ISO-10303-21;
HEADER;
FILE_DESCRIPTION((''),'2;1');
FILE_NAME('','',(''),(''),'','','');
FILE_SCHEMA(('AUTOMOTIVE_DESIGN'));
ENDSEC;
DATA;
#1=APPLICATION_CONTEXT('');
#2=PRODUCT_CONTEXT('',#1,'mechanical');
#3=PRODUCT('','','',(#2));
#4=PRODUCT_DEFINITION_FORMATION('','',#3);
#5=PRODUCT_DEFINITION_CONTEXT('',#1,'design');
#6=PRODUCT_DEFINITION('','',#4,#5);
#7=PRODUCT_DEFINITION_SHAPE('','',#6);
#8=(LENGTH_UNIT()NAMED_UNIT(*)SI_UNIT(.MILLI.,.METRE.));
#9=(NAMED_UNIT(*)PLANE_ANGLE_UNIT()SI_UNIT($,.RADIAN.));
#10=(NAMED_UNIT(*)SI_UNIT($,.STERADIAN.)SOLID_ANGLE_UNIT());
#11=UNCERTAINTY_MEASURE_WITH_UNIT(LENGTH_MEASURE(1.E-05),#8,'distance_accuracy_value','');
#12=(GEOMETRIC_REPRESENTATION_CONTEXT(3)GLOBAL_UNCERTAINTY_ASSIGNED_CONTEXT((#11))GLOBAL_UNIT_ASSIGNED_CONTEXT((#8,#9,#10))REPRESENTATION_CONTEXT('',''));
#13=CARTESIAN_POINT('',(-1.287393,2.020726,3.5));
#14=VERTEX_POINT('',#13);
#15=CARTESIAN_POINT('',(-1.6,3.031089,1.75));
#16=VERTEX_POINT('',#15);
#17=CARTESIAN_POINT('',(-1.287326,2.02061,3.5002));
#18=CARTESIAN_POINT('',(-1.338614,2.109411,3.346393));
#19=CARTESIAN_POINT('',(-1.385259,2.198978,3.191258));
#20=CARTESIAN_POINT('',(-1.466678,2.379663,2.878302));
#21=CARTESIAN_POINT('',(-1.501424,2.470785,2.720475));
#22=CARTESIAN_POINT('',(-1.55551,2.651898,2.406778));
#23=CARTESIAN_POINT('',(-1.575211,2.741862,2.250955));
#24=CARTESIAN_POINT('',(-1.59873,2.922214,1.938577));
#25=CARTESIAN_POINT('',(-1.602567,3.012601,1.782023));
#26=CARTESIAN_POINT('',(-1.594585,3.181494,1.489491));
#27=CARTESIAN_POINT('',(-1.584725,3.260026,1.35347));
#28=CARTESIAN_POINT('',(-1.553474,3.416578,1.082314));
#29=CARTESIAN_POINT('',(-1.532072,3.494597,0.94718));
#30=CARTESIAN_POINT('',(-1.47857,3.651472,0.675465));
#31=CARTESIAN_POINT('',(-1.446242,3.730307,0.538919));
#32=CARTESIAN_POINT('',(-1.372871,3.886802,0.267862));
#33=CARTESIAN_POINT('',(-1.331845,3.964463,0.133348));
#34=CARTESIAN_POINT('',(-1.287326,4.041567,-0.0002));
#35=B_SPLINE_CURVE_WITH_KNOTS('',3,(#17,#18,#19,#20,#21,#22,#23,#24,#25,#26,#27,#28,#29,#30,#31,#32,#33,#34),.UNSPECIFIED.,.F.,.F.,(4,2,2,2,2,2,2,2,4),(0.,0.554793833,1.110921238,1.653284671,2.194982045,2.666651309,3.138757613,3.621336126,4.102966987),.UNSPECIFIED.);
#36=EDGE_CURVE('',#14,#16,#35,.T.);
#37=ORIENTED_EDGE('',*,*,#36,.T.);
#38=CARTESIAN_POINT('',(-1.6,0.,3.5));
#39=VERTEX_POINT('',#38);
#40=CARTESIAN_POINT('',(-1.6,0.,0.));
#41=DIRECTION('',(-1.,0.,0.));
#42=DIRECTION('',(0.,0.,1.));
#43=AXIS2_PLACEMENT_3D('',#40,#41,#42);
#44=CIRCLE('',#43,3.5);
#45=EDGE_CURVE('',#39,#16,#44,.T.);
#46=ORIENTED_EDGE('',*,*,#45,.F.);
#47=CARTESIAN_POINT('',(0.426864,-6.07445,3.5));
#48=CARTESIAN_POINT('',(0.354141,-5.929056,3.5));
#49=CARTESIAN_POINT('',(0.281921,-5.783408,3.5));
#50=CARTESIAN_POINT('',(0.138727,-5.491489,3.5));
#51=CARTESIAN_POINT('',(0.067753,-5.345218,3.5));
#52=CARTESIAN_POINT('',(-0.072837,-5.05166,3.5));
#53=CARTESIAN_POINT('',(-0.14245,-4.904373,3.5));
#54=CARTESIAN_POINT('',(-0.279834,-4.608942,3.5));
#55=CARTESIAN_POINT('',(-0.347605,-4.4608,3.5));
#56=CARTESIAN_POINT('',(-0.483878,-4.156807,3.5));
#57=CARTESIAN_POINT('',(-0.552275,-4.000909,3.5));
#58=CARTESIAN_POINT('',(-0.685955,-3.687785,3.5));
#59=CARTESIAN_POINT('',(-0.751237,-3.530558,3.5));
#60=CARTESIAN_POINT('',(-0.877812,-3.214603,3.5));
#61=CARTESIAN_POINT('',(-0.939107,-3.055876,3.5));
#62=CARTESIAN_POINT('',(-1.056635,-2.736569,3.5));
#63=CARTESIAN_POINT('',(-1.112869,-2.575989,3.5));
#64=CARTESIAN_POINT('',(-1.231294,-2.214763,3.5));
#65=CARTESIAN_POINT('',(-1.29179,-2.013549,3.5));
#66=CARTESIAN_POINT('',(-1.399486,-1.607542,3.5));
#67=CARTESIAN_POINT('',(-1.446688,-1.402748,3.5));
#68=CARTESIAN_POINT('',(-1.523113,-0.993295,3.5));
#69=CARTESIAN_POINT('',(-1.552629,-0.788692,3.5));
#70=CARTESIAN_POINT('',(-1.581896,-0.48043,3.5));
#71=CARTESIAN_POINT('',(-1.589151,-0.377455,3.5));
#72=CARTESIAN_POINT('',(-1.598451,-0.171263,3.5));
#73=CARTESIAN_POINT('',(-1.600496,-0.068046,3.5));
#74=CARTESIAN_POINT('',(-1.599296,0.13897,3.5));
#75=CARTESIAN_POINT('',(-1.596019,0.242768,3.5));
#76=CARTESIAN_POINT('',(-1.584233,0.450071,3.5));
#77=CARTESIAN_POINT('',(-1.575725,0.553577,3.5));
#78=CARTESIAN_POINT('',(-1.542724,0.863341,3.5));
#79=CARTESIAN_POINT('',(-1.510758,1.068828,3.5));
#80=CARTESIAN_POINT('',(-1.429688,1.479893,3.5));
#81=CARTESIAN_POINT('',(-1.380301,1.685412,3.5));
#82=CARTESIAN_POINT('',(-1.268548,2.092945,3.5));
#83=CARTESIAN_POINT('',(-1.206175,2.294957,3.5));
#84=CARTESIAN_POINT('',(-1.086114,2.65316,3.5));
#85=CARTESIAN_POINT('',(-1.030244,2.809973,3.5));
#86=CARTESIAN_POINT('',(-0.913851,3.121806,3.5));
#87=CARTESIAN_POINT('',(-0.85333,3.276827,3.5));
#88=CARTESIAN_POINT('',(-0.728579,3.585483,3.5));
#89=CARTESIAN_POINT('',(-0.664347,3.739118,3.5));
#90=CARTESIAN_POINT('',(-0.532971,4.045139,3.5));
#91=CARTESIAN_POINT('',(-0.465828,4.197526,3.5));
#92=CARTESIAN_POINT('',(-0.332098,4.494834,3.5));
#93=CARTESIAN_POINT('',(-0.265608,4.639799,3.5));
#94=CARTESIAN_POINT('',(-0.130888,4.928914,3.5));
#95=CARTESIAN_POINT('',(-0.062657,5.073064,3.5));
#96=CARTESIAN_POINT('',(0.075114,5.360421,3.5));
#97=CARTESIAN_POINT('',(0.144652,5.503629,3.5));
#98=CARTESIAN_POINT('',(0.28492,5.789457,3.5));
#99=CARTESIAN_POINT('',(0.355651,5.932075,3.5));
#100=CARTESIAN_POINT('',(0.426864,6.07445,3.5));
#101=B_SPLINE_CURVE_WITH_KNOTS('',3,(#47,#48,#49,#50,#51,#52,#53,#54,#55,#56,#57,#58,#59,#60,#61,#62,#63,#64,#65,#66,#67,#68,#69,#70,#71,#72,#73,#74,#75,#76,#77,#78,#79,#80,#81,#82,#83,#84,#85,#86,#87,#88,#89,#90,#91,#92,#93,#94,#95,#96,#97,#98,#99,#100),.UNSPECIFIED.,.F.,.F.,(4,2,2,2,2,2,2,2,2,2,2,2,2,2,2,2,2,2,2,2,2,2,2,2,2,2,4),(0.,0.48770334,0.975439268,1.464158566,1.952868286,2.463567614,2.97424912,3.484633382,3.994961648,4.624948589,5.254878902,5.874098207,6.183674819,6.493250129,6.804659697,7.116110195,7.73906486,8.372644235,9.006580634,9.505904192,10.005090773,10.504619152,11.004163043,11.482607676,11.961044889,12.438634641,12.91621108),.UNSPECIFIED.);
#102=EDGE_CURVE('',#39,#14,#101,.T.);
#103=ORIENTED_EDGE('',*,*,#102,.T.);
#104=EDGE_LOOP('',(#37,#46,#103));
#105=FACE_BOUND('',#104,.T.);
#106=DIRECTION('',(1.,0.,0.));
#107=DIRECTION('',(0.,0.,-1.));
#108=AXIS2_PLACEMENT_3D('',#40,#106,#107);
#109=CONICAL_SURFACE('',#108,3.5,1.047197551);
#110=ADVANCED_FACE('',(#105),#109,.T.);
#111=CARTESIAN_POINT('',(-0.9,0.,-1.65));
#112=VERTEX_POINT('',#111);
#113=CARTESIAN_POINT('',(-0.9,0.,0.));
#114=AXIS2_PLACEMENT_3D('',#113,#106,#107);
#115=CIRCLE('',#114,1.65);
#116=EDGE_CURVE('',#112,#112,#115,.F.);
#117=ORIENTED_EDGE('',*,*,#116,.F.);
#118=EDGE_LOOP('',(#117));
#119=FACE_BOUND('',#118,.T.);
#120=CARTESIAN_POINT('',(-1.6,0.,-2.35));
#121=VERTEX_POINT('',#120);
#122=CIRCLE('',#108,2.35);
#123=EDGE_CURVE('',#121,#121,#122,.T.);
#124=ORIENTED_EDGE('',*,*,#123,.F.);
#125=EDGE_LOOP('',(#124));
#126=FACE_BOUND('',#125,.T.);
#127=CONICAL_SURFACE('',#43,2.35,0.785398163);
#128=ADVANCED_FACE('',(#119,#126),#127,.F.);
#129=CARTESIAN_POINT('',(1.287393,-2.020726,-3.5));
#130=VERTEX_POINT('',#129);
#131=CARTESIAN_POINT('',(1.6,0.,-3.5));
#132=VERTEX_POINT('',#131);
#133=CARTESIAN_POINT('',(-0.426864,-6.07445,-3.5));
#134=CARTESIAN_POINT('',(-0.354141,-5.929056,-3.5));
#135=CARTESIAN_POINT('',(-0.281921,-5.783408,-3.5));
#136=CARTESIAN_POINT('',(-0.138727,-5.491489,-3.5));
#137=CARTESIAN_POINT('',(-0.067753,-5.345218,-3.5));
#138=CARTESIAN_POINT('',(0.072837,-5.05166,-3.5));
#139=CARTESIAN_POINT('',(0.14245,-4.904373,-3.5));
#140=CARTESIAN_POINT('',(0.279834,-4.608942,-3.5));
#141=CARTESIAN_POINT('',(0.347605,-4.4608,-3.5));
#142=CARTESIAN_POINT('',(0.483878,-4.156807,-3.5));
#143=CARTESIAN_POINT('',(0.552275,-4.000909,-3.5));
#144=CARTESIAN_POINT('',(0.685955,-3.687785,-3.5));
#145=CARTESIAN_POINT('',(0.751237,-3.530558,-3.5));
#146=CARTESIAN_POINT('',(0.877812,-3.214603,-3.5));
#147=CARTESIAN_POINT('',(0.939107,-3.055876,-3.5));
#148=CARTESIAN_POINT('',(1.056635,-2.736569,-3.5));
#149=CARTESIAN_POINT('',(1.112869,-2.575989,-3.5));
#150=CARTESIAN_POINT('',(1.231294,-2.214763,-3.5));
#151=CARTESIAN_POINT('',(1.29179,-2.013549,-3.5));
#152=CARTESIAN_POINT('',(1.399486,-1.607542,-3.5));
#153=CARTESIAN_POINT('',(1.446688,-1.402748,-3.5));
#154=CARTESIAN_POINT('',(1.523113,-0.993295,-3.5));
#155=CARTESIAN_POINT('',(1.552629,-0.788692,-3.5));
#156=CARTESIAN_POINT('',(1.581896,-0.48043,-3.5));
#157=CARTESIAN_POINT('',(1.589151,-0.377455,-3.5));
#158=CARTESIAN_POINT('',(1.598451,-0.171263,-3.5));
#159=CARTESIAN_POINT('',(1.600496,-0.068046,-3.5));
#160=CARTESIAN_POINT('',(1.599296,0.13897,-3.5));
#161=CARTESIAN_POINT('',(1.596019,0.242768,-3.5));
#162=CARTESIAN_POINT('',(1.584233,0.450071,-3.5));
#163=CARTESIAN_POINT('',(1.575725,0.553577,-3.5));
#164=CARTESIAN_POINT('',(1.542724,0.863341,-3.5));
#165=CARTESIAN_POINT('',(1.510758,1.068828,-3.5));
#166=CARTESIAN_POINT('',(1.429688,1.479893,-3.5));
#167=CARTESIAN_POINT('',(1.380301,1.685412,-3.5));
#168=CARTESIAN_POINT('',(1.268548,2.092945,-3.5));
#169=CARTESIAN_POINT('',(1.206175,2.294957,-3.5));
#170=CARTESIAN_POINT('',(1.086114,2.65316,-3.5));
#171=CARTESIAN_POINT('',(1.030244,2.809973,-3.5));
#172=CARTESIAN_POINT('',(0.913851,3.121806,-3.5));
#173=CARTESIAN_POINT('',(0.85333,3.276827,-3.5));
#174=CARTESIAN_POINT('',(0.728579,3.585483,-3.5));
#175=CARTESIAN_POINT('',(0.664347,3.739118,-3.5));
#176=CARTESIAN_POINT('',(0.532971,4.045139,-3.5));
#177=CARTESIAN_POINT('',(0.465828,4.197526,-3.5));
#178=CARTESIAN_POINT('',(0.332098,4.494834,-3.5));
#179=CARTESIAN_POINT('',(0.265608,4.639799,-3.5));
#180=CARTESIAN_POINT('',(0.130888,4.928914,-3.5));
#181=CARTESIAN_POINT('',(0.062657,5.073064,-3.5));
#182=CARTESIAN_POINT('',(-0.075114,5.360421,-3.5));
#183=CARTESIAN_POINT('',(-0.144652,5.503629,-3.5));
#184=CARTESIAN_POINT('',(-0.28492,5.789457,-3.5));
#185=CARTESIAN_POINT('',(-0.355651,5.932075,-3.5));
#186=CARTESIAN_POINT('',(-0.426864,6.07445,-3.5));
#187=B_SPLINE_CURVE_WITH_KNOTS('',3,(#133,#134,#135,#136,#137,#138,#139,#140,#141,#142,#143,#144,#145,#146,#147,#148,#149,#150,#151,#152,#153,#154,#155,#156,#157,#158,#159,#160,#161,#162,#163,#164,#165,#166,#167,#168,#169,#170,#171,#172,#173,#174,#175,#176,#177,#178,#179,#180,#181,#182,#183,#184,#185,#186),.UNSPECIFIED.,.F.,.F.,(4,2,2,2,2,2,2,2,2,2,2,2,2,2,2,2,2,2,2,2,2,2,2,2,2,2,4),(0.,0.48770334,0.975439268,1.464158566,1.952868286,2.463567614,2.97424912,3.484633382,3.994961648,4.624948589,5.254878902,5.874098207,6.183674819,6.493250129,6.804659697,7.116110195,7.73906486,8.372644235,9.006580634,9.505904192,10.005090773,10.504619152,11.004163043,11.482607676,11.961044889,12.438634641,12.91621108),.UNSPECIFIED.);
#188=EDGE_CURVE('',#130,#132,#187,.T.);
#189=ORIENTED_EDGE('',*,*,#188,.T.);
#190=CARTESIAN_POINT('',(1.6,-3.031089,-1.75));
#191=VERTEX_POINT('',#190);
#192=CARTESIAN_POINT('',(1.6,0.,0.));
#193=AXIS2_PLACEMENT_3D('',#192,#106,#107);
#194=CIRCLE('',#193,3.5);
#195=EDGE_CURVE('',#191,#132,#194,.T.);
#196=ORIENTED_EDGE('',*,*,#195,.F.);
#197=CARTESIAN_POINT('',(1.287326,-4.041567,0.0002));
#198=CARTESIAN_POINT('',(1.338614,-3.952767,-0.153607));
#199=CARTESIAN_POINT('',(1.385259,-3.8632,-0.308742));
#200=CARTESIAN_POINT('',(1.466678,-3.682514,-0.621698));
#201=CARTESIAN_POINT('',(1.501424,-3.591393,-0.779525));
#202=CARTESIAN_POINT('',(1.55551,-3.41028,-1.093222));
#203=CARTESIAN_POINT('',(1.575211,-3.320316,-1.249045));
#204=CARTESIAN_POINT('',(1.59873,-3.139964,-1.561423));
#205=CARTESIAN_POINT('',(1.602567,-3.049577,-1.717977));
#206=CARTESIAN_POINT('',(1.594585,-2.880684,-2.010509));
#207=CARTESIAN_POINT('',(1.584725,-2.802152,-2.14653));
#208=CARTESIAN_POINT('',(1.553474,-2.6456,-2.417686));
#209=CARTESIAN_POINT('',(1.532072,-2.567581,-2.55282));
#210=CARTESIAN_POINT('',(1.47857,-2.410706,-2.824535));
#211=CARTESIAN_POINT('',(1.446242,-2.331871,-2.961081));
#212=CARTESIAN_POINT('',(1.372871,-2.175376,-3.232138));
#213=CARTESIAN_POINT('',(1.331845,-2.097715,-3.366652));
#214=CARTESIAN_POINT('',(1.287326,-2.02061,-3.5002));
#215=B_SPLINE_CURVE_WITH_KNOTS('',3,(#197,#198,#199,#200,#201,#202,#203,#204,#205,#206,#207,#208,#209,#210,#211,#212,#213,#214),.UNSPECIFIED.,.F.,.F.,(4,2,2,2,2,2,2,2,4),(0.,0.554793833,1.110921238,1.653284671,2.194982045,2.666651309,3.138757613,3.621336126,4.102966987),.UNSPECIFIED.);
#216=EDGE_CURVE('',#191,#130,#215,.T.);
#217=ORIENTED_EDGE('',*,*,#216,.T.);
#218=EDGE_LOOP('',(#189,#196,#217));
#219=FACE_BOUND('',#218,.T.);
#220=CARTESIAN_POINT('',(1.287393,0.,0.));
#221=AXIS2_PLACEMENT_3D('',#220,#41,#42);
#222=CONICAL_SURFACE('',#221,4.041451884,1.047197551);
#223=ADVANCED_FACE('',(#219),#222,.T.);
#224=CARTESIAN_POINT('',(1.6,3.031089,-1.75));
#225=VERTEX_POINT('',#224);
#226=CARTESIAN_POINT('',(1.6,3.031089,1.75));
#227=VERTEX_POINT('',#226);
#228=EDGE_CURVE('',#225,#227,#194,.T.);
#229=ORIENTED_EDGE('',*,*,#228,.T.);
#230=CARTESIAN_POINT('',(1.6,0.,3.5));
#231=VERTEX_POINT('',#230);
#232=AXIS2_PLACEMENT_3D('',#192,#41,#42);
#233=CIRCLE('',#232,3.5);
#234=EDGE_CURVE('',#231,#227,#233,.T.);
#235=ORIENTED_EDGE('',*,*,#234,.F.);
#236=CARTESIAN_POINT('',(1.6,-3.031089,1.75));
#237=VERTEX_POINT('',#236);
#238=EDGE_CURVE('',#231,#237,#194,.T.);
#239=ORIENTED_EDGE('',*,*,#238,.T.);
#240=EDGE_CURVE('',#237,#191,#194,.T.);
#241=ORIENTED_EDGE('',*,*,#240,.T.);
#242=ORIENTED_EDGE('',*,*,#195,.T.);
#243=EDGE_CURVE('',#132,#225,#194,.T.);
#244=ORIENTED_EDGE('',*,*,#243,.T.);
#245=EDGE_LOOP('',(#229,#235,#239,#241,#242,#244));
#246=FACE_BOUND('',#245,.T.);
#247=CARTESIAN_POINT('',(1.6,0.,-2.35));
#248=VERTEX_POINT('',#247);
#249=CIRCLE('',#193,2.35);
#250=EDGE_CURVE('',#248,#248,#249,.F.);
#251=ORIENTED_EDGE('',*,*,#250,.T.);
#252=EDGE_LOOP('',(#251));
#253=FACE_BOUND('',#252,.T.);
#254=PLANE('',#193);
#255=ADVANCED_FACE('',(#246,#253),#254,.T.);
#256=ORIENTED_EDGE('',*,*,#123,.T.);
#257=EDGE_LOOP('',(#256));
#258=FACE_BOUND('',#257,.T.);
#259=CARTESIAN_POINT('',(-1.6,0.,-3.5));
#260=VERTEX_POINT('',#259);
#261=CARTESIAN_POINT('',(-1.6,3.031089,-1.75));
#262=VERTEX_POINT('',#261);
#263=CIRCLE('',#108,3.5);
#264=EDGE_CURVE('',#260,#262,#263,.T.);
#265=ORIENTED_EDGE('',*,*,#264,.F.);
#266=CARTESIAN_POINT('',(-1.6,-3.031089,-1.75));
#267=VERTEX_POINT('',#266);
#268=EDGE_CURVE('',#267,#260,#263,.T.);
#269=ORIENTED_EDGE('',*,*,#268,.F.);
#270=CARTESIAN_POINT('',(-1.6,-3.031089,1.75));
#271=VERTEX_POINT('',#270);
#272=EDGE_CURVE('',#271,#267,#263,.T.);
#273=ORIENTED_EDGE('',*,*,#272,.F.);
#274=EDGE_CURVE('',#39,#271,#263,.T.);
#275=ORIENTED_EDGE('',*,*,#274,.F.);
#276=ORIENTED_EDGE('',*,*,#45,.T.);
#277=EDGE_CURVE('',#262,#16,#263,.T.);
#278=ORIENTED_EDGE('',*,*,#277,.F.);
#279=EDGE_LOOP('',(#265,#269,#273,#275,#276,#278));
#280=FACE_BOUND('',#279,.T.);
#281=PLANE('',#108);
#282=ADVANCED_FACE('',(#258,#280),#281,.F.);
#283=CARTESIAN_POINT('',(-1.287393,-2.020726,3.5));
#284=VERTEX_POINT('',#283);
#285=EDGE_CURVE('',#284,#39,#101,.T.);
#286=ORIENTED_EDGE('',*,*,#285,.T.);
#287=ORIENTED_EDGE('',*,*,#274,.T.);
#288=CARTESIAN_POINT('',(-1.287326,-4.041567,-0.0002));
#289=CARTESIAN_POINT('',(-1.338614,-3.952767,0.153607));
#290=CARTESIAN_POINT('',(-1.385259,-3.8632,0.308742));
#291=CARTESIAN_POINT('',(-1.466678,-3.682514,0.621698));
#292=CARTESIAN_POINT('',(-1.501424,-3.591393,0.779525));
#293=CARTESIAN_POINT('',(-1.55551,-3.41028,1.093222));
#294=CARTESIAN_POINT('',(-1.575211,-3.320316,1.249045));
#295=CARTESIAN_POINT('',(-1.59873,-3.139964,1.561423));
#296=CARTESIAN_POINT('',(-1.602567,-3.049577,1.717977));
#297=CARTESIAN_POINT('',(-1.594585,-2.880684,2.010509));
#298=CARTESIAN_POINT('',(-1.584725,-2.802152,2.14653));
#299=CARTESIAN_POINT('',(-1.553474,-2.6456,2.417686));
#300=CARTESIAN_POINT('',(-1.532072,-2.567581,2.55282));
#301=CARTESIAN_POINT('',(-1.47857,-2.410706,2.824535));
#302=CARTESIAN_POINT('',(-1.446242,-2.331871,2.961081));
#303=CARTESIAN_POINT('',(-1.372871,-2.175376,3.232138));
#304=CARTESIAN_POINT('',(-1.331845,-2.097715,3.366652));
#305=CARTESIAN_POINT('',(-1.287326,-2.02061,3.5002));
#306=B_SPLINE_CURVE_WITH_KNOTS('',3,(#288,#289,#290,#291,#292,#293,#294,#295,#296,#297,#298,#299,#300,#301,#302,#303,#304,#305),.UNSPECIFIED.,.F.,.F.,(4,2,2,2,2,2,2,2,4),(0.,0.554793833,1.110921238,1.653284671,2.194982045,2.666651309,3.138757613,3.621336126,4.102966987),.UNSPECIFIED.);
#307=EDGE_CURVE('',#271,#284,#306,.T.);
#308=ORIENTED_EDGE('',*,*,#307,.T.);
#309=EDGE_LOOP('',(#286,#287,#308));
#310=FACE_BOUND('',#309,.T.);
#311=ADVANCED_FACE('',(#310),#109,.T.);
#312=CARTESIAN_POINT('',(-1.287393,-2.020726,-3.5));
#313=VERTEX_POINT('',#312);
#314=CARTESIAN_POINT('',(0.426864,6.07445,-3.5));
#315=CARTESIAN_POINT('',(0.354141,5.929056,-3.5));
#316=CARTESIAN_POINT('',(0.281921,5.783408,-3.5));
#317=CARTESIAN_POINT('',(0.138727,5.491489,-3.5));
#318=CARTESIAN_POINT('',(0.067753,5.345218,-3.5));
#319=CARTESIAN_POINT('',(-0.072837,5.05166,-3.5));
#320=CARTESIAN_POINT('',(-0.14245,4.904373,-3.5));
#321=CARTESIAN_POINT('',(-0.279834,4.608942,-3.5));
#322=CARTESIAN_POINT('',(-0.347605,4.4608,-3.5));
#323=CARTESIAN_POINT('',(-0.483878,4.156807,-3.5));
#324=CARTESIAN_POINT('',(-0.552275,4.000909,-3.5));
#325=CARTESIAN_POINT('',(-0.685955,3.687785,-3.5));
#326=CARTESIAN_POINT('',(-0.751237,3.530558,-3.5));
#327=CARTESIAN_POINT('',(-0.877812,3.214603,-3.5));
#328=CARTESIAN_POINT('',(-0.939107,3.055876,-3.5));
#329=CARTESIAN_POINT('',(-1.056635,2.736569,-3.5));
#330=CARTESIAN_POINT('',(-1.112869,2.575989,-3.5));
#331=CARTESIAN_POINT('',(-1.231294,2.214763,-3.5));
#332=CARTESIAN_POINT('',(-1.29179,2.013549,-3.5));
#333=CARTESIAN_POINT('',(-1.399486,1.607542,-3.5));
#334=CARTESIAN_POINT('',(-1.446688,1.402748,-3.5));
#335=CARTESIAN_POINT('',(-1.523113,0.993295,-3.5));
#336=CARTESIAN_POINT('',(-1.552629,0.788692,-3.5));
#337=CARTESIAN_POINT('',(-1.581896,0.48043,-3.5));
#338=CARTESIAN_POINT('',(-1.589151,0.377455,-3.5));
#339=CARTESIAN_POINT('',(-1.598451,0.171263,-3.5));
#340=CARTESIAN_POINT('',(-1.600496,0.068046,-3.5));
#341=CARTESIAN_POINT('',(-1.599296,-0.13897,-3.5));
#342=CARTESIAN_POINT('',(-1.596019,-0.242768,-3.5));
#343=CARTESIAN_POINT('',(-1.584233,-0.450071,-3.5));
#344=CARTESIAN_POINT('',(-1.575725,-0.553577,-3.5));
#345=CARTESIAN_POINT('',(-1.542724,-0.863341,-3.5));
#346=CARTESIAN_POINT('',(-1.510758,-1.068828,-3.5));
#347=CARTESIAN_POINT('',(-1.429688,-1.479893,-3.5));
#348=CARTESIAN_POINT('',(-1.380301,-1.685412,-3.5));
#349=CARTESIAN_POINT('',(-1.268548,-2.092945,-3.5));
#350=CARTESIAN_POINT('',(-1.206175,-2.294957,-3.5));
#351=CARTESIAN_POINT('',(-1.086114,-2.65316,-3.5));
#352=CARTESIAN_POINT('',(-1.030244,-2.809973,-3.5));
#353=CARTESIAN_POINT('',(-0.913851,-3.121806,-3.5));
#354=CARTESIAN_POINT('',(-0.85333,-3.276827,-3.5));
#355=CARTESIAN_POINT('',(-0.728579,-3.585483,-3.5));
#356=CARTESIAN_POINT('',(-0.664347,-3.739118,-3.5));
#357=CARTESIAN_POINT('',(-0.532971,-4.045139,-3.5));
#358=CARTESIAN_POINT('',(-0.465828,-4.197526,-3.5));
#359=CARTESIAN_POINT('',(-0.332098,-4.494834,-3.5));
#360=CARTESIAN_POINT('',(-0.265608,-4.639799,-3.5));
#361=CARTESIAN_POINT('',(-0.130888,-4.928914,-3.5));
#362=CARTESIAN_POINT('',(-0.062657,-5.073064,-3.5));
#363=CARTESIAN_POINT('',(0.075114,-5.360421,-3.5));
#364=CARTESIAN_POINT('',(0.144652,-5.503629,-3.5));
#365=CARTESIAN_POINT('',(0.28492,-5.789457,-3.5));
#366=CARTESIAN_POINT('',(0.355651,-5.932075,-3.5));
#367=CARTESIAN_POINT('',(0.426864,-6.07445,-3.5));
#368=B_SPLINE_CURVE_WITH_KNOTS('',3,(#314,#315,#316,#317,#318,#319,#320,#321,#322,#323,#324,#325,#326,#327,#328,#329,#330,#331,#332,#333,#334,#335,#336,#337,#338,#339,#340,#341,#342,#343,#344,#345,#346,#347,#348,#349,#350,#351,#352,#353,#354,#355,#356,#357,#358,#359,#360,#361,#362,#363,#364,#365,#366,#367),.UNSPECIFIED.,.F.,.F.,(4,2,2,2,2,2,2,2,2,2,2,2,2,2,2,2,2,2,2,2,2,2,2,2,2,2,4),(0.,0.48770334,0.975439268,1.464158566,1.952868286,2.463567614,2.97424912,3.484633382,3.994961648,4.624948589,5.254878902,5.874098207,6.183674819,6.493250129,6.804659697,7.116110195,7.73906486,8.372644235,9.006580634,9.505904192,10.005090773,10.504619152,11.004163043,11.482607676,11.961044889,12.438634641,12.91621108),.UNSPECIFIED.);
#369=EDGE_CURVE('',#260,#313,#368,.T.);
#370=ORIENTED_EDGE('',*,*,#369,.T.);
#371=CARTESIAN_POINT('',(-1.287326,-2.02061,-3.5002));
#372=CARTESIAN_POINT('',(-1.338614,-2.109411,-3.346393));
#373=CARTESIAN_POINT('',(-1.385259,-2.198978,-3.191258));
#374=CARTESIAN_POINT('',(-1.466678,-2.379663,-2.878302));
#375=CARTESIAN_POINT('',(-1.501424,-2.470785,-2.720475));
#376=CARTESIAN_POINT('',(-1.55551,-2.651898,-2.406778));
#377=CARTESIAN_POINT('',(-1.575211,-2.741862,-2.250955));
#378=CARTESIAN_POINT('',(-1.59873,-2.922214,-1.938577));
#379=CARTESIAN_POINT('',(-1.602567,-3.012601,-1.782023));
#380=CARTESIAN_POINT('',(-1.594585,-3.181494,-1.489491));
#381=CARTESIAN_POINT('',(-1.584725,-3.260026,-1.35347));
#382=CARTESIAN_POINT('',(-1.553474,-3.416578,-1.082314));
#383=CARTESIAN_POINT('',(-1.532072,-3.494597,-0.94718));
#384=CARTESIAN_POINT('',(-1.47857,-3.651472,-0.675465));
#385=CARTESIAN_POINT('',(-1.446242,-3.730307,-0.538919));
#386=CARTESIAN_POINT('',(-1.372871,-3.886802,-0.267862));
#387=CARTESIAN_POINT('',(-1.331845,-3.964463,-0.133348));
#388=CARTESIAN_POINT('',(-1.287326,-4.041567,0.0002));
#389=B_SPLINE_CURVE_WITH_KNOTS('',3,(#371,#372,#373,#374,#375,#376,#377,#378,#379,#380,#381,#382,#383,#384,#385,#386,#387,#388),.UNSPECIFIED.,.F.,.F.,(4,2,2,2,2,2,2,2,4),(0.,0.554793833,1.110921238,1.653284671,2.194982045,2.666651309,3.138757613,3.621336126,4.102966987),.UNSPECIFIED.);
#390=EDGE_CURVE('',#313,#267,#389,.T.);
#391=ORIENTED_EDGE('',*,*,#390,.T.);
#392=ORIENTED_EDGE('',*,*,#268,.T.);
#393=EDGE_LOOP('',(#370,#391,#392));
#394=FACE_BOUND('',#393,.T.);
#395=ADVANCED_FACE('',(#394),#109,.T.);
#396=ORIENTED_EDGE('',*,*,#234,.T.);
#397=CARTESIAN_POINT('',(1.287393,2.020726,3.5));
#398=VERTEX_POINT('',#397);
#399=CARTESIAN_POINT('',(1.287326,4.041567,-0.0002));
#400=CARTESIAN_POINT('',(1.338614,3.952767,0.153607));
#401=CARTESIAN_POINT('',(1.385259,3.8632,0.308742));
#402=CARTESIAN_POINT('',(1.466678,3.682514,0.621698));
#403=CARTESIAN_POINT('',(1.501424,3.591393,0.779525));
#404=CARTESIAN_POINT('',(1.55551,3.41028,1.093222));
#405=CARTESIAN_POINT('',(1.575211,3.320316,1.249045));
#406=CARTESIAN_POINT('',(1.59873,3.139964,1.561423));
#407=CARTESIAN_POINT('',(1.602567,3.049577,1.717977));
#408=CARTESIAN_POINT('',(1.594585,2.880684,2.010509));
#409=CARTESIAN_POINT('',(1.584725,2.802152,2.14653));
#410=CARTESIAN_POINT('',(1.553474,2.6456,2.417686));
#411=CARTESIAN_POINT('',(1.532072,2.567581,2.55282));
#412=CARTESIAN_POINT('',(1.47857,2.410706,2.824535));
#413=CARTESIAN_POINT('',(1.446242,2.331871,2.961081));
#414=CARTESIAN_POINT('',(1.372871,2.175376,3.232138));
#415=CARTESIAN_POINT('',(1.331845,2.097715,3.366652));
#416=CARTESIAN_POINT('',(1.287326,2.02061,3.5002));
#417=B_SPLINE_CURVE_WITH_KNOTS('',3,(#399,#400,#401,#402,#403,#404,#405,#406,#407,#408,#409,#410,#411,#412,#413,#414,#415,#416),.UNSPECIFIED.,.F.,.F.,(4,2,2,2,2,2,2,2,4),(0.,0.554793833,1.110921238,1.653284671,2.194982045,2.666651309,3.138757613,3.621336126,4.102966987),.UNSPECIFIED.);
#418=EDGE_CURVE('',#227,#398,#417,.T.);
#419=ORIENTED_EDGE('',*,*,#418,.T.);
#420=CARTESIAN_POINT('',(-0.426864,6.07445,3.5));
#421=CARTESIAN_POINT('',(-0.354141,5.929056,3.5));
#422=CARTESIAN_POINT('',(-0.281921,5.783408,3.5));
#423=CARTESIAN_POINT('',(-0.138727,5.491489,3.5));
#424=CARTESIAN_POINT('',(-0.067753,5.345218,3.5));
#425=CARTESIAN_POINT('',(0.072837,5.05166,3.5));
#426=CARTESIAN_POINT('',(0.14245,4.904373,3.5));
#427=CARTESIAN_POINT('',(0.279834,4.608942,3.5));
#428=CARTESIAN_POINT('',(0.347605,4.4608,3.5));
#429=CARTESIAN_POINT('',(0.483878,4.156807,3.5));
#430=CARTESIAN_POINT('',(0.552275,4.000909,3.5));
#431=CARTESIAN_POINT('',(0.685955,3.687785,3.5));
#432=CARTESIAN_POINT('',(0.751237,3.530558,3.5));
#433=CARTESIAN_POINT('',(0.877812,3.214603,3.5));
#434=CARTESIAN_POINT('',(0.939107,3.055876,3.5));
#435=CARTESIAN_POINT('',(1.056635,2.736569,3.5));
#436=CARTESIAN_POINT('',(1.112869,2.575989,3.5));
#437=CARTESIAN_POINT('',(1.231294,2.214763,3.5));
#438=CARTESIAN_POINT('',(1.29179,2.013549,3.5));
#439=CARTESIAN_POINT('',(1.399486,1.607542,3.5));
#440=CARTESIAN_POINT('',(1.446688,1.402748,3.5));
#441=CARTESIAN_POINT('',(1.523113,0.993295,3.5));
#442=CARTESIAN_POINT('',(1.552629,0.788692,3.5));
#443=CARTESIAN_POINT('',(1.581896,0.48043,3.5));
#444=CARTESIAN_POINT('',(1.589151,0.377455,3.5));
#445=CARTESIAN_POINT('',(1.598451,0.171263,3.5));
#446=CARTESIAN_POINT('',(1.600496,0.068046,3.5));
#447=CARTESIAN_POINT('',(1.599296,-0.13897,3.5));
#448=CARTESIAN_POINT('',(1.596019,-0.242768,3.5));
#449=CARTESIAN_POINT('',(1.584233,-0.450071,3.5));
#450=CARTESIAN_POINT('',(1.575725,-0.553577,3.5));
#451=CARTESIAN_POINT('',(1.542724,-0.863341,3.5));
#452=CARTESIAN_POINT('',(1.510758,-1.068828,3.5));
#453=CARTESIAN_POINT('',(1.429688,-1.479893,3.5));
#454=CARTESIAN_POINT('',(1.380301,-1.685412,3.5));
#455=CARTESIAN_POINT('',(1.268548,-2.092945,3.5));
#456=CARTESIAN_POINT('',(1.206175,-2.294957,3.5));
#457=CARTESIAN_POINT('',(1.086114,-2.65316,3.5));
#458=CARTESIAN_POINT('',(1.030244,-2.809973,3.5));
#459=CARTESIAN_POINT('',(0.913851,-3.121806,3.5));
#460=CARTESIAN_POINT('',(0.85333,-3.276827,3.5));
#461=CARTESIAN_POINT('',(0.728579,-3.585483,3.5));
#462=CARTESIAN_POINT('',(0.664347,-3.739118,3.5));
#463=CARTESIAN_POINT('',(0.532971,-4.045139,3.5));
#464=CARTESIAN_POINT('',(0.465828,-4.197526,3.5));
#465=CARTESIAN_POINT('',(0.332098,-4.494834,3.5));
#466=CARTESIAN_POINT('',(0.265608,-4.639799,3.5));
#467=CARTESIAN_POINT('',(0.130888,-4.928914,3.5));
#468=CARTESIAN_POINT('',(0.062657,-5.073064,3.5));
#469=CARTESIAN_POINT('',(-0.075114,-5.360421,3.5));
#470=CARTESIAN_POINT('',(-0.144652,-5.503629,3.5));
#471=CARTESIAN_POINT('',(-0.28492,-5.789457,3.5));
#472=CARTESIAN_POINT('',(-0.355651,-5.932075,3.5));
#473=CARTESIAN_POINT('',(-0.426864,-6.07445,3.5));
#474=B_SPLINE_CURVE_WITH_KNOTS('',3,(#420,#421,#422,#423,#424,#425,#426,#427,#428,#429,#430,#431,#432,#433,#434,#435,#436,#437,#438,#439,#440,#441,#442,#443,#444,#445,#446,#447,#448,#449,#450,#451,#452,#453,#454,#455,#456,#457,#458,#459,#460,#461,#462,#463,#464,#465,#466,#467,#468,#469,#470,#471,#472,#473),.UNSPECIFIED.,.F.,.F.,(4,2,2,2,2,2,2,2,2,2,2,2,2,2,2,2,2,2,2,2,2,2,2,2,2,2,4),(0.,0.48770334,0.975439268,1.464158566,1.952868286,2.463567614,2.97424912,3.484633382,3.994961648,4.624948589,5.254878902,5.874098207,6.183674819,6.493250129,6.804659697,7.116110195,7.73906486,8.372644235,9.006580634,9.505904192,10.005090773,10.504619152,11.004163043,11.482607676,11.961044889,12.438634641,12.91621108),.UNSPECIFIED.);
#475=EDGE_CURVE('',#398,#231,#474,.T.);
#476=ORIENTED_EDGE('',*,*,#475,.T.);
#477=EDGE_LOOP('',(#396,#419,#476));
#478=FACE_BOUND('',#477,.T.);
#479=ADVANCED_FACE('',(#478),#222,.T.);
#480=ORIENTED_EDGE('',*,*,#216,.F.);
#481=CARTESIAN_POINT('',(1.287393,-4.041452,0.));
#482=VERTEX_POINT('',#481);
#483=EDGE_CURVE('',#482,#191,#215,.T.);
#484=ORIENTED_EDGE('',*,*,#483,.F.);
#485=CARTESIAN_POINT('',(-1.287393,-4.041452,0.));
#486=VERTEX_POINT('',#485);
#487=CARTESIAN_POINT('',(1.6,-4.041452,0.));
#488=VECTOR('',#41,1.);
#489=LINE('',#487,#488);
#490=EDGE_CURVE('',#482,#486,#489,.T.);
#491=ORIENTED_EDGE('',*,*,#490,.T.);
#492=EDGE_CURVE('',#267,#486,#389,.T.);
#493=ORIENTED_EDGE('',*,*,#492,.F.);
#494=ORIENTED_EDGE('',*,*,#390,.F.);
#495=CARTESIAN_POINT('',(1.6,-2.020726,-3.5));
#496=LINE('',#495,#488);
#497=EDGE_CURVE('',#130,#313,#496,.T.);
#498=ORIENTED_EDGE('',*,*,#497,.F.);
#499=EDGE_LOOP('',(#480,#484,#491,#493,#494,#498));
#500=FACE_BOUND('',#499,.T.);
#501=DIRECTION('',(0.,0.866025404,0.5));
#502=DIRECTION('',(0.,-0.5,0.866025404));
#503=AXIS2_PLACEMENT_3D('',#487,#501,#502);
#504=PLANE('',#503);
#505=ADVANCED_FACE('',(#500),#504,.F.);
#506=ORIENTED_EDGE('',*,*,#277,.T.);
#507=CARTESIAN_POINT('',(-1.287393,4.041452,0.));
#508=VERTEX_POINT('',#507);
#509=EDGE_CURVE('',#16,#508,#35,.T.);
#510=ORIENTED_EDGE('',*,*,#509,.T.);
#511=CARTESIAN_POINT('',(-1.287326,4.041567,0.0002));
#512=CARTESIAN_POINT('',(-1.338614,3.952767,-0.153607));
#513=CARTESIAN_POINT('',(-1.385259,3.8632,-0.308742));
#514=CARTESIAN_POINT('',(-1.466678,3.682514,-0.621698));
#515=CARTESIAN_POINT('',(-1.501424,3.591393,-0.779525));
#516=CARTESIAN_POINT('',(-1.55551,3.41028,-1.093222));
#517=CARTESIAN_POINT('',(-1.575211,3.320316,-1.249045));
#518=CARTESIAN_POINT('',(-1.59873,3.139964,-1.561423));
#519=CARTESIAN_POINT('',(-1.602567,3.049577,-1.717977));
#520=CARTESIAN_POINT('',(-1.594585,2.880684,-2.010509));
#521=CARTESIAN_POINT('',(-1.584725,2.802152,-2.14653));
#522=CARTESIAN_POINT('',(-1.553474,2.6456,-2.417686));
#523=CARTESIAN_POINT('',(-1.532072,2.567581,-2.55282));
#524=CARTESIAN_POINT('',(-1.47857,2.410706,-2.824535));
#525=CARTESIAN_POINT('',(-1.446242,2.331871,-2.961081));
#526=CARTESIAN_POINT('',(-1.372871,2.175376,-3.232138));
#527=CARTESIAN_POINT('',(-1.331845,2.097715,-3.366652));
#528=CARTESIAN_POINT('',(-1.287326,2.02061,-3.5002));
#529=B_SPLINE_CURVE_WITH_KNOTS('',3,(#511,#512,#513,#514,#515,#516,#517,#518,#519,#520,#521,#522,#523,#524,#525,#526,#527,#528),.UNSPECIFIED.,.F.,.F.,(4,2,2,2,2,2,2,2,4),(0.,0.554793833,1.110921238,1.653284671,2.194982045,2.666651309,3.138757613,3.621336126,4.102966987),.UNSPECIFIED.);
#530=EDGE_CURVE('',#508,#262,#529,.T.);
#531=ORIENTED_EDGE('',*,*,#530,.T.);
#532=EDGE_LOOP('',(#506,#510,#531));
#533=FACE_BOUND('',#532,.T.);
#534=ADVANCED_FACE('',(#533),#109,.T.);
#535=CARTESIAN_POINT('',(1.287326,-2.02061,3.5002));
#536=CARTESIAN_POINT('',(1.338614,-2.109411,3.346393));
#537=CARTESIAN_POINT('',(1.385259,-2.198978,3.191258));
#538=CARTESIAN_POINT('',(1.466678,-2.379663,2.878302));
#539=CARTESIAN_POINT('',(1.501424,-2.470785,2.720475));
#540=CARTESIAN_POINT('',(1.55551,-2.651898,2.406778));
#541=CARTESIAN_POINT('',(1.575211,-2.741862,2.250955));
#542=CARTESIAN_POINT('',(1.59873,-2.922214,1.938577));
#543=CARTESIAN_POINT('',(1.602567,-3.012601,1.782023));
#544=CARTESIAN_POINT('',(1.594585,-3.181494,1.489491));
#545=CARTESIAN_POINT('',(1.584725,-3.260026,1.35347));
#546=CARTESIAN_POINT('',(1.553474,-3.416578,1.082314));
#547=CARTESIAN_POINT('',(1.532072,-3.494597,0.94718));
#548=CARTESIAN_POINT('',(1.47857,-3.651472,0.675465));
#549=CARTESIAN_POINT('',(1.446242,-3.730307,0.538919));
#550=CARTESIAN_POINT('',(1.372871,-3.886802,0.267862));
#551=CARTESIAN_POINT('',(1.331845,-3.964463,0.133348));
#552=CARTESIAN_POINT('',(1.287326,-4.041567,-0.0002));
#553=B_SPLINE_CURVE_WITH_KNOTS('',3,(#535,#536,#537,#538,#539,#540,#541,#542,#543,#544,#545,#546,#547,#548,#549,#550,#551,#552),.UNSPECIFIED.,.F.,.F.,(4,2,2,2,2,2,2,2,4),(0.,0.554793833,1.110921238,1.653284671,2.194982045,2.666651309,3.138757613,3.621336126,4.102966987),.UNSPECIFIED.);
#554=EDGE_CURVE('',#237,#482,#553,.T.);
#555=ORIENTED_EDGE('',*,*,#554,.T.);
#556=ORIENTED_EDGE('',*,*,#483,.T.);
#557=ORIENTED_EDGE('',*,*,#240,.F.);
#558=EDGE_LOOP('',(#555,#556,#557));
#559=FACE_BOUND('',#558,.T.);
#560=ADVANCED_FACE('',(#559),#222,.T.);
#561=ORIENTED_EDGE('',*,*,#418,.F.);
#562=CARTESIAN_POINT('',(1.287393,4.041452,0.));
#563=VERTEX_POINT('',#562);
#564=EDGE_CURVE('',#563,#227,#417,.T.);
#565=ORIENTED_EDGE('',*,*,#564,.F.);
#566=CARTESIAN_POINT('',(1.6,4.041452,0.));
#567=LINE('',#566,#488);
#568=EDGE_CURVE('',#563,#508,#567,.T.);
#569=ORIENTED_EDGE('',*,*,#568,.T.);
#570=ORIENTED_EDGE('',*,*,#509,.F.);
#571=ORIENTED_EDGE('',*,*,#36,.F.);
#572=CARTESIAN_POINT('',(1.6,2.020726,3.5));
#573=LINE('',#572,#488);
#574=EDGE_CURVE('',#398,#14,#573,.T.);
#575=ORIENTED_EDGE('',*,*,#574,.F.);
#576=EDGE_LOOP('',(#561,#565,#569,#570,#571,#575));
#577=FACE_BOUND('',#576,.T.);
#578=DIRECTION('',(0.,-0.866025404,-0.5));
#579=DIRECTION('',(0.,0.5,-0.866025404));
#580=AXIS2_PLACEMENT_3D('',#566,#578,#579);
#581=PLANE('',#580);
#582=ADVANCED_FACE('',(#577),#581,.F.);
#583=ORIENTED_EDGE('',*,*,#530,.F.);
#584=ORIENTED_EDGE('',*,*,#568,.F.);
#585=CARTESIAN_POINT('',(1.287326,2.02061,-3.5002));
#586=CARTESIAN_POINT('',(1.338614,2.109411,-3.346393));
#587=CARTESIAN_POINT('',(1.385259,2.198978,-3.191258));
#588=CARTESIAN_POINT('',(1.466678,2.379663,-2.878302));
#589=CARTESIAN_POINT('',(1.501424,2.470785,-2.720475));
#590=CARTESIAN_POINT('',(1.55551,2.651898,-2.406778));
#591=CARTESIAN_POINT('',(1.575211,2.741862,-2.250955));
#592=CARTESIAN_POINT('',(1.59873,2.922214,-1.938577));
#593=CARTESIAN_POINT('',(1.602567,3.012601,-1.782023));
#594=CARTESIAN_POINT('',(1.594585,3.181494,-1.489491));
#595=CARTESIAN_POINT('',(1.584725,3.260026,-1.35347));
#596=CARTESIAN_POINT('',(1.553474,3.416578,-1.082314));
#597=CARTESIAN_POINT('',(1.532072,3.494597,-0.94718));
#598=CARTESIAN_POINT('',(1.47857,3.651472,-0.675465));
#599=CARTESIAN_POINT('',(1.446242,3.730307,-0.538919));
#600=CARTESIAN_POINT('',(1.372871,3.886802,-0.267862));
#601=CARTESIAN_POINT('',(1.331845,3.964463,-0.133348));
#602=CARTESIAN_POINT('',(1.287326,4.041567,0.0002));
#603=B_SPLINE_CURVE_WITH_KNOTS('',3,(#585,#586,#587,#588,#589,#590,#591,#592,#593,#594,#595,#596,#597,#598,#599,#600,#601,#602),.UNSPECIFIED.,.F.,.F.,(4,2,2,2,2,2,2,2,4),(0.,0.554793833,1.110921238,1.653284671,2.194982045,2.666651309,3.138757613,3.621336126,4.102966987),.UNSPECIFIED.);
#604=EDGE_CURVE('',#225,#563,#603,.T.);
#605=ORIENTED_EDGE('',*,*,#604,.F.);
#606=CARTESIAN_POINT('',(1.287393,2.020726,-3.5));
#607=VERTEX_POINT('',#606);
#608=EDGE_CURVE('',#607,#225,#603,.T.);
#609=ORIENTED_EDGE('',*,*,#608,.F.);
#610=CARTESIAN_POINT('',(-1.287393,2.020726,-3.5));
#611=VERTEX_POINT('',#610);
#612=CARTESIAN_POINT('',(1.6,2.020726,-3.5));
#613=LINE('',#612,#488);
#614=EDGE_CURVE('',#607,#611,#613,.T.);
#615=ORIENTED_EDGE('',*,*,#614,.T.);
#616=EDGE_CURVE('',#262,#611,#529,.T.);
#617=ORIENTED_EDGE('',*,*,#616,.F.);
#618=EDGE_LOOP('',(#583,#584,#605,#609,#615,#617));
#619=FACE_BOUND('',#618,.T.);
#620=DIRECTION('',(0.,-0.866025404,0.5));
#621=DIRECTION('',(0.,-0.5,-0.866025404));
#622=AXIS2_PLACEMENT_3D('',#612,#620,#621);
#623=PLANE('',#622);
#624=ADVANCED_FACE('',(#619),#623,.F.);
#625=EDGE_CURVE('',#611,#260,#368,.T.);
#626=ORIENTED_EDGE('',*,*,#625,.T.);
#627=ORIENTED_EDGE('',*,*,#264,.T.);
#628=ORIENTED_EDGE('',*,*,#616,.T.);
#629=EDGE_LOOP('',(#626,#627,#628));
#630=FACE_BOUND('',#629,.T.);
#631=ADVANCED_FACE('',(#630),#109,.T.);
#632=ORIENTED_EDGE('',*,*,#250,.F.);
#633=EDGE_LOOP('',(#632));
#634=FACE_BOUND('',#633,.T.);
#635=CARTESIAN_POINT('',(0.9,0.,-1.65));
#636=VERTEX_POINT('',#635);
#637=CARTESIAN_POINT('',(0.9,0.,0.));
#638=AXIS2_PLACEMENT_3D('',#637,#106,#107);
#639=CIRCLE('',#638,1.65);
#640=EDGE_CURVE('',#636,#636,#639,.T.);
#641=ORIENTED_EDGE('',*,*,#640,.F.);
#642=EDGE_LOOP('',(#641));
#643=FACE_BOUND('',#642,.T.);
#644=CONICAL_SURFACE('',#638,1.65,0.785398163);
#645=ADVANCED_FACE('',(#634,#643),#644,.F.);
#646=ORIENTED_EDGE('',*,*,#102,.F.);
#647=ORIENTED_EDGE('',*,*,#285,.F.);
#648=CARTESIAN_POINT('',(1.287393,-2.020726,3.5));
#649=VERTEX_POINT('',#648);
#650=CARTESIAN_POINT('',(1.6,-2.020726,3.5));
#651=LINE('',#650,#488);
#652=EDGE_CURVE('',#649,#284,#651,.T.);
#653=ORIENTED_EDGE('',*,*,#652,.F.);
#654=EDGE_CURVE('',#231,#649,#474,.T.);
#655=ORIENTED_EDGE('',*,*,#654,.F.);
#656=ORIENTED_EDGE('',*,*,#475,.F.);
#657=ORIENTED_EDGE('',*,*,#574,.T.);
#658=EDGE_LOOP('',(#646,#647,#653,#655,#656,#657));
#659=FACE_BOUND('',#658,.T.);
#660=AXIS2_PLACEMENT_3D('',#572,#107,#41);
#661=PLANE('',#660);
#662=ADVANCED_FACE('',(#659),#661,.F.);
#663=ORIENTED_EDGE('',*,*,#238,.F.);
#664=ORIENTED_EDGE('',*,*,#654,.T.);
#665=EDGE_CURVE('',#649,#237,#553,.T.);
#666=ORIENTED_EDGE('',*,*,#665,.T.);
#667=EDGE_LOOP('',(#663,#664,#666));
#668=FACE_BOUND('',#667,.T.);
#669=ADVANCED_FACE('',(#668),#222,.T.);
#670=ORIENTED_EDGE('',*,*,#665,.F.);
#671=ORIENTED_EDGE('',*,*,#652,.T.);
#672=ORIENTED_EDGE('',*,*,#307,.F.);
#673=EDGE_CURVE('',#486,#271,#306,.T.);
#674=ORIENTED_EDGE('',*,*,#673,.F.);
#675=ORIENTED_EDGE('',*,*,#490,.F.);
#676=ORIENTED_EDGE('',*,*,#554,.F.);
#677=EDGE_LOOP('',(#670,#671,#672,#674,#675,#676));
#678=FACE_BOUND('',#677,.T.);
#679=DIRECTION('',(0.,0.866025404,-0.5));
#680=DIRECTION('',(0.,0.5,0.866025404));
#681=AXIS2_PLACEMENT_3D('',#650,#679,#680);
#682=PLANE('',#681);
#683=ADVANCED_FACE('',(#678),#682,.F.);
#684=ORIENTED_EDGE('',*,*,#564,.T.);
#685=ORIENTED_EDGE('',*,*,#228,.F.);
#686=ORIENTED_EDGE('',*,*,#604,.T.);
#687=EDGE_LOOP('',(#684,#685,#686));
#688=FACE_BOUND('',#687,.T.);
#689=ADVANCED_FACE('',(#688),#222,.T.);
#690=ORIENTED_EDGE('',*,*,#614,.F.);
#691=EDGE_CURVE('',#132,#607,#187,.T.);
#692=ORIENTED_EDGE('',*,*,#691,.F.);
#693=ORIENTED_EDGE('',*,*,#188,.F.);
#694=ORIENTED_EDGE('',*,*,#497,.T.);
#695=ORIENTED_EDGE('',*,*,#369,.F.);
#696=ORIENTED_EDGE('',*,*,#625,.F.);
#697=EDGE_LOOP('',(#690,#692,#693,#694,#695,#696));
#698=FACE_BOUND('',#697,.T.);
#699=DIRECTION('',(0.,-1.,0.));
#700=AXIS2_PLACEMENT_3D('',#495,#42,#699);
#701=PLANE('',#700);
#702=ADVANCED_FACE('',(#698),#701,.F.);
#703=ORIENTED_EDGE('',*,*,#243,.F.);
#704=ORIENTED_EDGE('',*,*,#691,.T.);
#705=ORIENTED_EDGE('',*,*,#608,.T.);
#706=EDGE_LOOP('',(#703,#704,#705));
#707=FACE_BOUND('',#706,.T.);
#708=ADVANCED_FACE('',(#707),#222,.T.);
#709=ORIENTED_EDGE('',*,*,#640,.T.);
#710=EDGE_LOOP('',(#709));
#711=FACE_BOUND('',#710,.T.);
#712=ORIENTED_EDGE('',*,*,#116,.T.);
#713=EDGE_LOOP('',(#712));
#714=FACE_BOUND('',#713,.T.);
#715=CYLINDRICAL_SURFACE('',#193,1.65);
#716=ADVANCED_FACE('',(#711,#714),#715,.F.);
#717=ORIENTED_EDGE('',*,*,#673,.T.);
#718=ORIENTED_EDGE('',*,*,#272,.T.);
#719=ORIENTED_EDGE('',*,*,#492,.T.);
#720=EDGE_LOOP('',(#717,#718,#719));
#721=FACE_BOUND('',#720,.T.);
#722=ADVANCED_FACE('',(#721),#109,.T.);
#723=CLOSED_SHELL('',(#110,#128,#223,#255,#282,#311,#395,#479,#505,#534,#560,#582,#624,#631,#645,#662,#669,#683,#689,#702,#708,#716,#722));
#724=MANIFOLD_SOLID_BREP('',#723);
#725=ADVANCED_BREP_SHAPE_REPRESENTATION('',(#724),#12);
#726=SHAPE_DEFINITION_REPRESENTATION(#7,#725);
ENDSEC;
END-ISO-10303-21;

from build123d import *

# Parameters (mm, degrees)
EXTRUDE_M_DEPTH     = 1.6
HOLE_WIZARD_D_D     = 3.3
HOLE_WIZARD_D_DEPTH = 3.2
CHAMFER1_SIZE       = 0.7


with BuildPart() as part:
    # Sketch1 → Extrude m (new body, symmetric)
    with BuildSketch(Plane(origin=(0, 0, 0), x_dir=(0, 0, -1), z_dir=(1, 0, 0))):
        Polygon((0, 4.041451884), (-3.5, 2.020725942), (-3.5, -2.020725942), (0, -4.041451884), (3.5, -2.020725942), (3.5, 2.020725942), align=None)
    extrude(amount=EXTRUDE_M_DEPTH, both=True)

    # Sketch2 → Cut-Revolve1 (revolve, cut)
    with BuildSketch(Plane.XY):
        Polygon((1.6, 4.041451884), (1.287392609, 4.041451884), (1.6, 3.5), align=None)
        Polygon((-1.6, 4.041451884), (-1.6, 3.5), (-1.287392609, 4.041451884), align=None)
    revolve(axis=Axis((0, 0, 0), (1, 0, 0)), mode=Mode.SUBTRACT)

    # Hole Wizard d
    with Locations(Plane(origin=(1.6, 0, 0), x_dir=(0, 0, -1), z_dir=(1, 0, 0))):
        with Locations((0, 0)):
            Hole(HOLE_WIZARD_D_D / 2, depth=HOLE_WIZARD_D_DEPTH)

    # Chamfer1
    chamfer1_edges = [part.edges().sort_by_distance(p)[0] for p in [
        (1.6, 0, -1.65),
        (-1.6, 0, -1.65),
    ]]
    chamfer(chamfer1_edges, length=CHAMFER1_SIZE)


solid = part.part
